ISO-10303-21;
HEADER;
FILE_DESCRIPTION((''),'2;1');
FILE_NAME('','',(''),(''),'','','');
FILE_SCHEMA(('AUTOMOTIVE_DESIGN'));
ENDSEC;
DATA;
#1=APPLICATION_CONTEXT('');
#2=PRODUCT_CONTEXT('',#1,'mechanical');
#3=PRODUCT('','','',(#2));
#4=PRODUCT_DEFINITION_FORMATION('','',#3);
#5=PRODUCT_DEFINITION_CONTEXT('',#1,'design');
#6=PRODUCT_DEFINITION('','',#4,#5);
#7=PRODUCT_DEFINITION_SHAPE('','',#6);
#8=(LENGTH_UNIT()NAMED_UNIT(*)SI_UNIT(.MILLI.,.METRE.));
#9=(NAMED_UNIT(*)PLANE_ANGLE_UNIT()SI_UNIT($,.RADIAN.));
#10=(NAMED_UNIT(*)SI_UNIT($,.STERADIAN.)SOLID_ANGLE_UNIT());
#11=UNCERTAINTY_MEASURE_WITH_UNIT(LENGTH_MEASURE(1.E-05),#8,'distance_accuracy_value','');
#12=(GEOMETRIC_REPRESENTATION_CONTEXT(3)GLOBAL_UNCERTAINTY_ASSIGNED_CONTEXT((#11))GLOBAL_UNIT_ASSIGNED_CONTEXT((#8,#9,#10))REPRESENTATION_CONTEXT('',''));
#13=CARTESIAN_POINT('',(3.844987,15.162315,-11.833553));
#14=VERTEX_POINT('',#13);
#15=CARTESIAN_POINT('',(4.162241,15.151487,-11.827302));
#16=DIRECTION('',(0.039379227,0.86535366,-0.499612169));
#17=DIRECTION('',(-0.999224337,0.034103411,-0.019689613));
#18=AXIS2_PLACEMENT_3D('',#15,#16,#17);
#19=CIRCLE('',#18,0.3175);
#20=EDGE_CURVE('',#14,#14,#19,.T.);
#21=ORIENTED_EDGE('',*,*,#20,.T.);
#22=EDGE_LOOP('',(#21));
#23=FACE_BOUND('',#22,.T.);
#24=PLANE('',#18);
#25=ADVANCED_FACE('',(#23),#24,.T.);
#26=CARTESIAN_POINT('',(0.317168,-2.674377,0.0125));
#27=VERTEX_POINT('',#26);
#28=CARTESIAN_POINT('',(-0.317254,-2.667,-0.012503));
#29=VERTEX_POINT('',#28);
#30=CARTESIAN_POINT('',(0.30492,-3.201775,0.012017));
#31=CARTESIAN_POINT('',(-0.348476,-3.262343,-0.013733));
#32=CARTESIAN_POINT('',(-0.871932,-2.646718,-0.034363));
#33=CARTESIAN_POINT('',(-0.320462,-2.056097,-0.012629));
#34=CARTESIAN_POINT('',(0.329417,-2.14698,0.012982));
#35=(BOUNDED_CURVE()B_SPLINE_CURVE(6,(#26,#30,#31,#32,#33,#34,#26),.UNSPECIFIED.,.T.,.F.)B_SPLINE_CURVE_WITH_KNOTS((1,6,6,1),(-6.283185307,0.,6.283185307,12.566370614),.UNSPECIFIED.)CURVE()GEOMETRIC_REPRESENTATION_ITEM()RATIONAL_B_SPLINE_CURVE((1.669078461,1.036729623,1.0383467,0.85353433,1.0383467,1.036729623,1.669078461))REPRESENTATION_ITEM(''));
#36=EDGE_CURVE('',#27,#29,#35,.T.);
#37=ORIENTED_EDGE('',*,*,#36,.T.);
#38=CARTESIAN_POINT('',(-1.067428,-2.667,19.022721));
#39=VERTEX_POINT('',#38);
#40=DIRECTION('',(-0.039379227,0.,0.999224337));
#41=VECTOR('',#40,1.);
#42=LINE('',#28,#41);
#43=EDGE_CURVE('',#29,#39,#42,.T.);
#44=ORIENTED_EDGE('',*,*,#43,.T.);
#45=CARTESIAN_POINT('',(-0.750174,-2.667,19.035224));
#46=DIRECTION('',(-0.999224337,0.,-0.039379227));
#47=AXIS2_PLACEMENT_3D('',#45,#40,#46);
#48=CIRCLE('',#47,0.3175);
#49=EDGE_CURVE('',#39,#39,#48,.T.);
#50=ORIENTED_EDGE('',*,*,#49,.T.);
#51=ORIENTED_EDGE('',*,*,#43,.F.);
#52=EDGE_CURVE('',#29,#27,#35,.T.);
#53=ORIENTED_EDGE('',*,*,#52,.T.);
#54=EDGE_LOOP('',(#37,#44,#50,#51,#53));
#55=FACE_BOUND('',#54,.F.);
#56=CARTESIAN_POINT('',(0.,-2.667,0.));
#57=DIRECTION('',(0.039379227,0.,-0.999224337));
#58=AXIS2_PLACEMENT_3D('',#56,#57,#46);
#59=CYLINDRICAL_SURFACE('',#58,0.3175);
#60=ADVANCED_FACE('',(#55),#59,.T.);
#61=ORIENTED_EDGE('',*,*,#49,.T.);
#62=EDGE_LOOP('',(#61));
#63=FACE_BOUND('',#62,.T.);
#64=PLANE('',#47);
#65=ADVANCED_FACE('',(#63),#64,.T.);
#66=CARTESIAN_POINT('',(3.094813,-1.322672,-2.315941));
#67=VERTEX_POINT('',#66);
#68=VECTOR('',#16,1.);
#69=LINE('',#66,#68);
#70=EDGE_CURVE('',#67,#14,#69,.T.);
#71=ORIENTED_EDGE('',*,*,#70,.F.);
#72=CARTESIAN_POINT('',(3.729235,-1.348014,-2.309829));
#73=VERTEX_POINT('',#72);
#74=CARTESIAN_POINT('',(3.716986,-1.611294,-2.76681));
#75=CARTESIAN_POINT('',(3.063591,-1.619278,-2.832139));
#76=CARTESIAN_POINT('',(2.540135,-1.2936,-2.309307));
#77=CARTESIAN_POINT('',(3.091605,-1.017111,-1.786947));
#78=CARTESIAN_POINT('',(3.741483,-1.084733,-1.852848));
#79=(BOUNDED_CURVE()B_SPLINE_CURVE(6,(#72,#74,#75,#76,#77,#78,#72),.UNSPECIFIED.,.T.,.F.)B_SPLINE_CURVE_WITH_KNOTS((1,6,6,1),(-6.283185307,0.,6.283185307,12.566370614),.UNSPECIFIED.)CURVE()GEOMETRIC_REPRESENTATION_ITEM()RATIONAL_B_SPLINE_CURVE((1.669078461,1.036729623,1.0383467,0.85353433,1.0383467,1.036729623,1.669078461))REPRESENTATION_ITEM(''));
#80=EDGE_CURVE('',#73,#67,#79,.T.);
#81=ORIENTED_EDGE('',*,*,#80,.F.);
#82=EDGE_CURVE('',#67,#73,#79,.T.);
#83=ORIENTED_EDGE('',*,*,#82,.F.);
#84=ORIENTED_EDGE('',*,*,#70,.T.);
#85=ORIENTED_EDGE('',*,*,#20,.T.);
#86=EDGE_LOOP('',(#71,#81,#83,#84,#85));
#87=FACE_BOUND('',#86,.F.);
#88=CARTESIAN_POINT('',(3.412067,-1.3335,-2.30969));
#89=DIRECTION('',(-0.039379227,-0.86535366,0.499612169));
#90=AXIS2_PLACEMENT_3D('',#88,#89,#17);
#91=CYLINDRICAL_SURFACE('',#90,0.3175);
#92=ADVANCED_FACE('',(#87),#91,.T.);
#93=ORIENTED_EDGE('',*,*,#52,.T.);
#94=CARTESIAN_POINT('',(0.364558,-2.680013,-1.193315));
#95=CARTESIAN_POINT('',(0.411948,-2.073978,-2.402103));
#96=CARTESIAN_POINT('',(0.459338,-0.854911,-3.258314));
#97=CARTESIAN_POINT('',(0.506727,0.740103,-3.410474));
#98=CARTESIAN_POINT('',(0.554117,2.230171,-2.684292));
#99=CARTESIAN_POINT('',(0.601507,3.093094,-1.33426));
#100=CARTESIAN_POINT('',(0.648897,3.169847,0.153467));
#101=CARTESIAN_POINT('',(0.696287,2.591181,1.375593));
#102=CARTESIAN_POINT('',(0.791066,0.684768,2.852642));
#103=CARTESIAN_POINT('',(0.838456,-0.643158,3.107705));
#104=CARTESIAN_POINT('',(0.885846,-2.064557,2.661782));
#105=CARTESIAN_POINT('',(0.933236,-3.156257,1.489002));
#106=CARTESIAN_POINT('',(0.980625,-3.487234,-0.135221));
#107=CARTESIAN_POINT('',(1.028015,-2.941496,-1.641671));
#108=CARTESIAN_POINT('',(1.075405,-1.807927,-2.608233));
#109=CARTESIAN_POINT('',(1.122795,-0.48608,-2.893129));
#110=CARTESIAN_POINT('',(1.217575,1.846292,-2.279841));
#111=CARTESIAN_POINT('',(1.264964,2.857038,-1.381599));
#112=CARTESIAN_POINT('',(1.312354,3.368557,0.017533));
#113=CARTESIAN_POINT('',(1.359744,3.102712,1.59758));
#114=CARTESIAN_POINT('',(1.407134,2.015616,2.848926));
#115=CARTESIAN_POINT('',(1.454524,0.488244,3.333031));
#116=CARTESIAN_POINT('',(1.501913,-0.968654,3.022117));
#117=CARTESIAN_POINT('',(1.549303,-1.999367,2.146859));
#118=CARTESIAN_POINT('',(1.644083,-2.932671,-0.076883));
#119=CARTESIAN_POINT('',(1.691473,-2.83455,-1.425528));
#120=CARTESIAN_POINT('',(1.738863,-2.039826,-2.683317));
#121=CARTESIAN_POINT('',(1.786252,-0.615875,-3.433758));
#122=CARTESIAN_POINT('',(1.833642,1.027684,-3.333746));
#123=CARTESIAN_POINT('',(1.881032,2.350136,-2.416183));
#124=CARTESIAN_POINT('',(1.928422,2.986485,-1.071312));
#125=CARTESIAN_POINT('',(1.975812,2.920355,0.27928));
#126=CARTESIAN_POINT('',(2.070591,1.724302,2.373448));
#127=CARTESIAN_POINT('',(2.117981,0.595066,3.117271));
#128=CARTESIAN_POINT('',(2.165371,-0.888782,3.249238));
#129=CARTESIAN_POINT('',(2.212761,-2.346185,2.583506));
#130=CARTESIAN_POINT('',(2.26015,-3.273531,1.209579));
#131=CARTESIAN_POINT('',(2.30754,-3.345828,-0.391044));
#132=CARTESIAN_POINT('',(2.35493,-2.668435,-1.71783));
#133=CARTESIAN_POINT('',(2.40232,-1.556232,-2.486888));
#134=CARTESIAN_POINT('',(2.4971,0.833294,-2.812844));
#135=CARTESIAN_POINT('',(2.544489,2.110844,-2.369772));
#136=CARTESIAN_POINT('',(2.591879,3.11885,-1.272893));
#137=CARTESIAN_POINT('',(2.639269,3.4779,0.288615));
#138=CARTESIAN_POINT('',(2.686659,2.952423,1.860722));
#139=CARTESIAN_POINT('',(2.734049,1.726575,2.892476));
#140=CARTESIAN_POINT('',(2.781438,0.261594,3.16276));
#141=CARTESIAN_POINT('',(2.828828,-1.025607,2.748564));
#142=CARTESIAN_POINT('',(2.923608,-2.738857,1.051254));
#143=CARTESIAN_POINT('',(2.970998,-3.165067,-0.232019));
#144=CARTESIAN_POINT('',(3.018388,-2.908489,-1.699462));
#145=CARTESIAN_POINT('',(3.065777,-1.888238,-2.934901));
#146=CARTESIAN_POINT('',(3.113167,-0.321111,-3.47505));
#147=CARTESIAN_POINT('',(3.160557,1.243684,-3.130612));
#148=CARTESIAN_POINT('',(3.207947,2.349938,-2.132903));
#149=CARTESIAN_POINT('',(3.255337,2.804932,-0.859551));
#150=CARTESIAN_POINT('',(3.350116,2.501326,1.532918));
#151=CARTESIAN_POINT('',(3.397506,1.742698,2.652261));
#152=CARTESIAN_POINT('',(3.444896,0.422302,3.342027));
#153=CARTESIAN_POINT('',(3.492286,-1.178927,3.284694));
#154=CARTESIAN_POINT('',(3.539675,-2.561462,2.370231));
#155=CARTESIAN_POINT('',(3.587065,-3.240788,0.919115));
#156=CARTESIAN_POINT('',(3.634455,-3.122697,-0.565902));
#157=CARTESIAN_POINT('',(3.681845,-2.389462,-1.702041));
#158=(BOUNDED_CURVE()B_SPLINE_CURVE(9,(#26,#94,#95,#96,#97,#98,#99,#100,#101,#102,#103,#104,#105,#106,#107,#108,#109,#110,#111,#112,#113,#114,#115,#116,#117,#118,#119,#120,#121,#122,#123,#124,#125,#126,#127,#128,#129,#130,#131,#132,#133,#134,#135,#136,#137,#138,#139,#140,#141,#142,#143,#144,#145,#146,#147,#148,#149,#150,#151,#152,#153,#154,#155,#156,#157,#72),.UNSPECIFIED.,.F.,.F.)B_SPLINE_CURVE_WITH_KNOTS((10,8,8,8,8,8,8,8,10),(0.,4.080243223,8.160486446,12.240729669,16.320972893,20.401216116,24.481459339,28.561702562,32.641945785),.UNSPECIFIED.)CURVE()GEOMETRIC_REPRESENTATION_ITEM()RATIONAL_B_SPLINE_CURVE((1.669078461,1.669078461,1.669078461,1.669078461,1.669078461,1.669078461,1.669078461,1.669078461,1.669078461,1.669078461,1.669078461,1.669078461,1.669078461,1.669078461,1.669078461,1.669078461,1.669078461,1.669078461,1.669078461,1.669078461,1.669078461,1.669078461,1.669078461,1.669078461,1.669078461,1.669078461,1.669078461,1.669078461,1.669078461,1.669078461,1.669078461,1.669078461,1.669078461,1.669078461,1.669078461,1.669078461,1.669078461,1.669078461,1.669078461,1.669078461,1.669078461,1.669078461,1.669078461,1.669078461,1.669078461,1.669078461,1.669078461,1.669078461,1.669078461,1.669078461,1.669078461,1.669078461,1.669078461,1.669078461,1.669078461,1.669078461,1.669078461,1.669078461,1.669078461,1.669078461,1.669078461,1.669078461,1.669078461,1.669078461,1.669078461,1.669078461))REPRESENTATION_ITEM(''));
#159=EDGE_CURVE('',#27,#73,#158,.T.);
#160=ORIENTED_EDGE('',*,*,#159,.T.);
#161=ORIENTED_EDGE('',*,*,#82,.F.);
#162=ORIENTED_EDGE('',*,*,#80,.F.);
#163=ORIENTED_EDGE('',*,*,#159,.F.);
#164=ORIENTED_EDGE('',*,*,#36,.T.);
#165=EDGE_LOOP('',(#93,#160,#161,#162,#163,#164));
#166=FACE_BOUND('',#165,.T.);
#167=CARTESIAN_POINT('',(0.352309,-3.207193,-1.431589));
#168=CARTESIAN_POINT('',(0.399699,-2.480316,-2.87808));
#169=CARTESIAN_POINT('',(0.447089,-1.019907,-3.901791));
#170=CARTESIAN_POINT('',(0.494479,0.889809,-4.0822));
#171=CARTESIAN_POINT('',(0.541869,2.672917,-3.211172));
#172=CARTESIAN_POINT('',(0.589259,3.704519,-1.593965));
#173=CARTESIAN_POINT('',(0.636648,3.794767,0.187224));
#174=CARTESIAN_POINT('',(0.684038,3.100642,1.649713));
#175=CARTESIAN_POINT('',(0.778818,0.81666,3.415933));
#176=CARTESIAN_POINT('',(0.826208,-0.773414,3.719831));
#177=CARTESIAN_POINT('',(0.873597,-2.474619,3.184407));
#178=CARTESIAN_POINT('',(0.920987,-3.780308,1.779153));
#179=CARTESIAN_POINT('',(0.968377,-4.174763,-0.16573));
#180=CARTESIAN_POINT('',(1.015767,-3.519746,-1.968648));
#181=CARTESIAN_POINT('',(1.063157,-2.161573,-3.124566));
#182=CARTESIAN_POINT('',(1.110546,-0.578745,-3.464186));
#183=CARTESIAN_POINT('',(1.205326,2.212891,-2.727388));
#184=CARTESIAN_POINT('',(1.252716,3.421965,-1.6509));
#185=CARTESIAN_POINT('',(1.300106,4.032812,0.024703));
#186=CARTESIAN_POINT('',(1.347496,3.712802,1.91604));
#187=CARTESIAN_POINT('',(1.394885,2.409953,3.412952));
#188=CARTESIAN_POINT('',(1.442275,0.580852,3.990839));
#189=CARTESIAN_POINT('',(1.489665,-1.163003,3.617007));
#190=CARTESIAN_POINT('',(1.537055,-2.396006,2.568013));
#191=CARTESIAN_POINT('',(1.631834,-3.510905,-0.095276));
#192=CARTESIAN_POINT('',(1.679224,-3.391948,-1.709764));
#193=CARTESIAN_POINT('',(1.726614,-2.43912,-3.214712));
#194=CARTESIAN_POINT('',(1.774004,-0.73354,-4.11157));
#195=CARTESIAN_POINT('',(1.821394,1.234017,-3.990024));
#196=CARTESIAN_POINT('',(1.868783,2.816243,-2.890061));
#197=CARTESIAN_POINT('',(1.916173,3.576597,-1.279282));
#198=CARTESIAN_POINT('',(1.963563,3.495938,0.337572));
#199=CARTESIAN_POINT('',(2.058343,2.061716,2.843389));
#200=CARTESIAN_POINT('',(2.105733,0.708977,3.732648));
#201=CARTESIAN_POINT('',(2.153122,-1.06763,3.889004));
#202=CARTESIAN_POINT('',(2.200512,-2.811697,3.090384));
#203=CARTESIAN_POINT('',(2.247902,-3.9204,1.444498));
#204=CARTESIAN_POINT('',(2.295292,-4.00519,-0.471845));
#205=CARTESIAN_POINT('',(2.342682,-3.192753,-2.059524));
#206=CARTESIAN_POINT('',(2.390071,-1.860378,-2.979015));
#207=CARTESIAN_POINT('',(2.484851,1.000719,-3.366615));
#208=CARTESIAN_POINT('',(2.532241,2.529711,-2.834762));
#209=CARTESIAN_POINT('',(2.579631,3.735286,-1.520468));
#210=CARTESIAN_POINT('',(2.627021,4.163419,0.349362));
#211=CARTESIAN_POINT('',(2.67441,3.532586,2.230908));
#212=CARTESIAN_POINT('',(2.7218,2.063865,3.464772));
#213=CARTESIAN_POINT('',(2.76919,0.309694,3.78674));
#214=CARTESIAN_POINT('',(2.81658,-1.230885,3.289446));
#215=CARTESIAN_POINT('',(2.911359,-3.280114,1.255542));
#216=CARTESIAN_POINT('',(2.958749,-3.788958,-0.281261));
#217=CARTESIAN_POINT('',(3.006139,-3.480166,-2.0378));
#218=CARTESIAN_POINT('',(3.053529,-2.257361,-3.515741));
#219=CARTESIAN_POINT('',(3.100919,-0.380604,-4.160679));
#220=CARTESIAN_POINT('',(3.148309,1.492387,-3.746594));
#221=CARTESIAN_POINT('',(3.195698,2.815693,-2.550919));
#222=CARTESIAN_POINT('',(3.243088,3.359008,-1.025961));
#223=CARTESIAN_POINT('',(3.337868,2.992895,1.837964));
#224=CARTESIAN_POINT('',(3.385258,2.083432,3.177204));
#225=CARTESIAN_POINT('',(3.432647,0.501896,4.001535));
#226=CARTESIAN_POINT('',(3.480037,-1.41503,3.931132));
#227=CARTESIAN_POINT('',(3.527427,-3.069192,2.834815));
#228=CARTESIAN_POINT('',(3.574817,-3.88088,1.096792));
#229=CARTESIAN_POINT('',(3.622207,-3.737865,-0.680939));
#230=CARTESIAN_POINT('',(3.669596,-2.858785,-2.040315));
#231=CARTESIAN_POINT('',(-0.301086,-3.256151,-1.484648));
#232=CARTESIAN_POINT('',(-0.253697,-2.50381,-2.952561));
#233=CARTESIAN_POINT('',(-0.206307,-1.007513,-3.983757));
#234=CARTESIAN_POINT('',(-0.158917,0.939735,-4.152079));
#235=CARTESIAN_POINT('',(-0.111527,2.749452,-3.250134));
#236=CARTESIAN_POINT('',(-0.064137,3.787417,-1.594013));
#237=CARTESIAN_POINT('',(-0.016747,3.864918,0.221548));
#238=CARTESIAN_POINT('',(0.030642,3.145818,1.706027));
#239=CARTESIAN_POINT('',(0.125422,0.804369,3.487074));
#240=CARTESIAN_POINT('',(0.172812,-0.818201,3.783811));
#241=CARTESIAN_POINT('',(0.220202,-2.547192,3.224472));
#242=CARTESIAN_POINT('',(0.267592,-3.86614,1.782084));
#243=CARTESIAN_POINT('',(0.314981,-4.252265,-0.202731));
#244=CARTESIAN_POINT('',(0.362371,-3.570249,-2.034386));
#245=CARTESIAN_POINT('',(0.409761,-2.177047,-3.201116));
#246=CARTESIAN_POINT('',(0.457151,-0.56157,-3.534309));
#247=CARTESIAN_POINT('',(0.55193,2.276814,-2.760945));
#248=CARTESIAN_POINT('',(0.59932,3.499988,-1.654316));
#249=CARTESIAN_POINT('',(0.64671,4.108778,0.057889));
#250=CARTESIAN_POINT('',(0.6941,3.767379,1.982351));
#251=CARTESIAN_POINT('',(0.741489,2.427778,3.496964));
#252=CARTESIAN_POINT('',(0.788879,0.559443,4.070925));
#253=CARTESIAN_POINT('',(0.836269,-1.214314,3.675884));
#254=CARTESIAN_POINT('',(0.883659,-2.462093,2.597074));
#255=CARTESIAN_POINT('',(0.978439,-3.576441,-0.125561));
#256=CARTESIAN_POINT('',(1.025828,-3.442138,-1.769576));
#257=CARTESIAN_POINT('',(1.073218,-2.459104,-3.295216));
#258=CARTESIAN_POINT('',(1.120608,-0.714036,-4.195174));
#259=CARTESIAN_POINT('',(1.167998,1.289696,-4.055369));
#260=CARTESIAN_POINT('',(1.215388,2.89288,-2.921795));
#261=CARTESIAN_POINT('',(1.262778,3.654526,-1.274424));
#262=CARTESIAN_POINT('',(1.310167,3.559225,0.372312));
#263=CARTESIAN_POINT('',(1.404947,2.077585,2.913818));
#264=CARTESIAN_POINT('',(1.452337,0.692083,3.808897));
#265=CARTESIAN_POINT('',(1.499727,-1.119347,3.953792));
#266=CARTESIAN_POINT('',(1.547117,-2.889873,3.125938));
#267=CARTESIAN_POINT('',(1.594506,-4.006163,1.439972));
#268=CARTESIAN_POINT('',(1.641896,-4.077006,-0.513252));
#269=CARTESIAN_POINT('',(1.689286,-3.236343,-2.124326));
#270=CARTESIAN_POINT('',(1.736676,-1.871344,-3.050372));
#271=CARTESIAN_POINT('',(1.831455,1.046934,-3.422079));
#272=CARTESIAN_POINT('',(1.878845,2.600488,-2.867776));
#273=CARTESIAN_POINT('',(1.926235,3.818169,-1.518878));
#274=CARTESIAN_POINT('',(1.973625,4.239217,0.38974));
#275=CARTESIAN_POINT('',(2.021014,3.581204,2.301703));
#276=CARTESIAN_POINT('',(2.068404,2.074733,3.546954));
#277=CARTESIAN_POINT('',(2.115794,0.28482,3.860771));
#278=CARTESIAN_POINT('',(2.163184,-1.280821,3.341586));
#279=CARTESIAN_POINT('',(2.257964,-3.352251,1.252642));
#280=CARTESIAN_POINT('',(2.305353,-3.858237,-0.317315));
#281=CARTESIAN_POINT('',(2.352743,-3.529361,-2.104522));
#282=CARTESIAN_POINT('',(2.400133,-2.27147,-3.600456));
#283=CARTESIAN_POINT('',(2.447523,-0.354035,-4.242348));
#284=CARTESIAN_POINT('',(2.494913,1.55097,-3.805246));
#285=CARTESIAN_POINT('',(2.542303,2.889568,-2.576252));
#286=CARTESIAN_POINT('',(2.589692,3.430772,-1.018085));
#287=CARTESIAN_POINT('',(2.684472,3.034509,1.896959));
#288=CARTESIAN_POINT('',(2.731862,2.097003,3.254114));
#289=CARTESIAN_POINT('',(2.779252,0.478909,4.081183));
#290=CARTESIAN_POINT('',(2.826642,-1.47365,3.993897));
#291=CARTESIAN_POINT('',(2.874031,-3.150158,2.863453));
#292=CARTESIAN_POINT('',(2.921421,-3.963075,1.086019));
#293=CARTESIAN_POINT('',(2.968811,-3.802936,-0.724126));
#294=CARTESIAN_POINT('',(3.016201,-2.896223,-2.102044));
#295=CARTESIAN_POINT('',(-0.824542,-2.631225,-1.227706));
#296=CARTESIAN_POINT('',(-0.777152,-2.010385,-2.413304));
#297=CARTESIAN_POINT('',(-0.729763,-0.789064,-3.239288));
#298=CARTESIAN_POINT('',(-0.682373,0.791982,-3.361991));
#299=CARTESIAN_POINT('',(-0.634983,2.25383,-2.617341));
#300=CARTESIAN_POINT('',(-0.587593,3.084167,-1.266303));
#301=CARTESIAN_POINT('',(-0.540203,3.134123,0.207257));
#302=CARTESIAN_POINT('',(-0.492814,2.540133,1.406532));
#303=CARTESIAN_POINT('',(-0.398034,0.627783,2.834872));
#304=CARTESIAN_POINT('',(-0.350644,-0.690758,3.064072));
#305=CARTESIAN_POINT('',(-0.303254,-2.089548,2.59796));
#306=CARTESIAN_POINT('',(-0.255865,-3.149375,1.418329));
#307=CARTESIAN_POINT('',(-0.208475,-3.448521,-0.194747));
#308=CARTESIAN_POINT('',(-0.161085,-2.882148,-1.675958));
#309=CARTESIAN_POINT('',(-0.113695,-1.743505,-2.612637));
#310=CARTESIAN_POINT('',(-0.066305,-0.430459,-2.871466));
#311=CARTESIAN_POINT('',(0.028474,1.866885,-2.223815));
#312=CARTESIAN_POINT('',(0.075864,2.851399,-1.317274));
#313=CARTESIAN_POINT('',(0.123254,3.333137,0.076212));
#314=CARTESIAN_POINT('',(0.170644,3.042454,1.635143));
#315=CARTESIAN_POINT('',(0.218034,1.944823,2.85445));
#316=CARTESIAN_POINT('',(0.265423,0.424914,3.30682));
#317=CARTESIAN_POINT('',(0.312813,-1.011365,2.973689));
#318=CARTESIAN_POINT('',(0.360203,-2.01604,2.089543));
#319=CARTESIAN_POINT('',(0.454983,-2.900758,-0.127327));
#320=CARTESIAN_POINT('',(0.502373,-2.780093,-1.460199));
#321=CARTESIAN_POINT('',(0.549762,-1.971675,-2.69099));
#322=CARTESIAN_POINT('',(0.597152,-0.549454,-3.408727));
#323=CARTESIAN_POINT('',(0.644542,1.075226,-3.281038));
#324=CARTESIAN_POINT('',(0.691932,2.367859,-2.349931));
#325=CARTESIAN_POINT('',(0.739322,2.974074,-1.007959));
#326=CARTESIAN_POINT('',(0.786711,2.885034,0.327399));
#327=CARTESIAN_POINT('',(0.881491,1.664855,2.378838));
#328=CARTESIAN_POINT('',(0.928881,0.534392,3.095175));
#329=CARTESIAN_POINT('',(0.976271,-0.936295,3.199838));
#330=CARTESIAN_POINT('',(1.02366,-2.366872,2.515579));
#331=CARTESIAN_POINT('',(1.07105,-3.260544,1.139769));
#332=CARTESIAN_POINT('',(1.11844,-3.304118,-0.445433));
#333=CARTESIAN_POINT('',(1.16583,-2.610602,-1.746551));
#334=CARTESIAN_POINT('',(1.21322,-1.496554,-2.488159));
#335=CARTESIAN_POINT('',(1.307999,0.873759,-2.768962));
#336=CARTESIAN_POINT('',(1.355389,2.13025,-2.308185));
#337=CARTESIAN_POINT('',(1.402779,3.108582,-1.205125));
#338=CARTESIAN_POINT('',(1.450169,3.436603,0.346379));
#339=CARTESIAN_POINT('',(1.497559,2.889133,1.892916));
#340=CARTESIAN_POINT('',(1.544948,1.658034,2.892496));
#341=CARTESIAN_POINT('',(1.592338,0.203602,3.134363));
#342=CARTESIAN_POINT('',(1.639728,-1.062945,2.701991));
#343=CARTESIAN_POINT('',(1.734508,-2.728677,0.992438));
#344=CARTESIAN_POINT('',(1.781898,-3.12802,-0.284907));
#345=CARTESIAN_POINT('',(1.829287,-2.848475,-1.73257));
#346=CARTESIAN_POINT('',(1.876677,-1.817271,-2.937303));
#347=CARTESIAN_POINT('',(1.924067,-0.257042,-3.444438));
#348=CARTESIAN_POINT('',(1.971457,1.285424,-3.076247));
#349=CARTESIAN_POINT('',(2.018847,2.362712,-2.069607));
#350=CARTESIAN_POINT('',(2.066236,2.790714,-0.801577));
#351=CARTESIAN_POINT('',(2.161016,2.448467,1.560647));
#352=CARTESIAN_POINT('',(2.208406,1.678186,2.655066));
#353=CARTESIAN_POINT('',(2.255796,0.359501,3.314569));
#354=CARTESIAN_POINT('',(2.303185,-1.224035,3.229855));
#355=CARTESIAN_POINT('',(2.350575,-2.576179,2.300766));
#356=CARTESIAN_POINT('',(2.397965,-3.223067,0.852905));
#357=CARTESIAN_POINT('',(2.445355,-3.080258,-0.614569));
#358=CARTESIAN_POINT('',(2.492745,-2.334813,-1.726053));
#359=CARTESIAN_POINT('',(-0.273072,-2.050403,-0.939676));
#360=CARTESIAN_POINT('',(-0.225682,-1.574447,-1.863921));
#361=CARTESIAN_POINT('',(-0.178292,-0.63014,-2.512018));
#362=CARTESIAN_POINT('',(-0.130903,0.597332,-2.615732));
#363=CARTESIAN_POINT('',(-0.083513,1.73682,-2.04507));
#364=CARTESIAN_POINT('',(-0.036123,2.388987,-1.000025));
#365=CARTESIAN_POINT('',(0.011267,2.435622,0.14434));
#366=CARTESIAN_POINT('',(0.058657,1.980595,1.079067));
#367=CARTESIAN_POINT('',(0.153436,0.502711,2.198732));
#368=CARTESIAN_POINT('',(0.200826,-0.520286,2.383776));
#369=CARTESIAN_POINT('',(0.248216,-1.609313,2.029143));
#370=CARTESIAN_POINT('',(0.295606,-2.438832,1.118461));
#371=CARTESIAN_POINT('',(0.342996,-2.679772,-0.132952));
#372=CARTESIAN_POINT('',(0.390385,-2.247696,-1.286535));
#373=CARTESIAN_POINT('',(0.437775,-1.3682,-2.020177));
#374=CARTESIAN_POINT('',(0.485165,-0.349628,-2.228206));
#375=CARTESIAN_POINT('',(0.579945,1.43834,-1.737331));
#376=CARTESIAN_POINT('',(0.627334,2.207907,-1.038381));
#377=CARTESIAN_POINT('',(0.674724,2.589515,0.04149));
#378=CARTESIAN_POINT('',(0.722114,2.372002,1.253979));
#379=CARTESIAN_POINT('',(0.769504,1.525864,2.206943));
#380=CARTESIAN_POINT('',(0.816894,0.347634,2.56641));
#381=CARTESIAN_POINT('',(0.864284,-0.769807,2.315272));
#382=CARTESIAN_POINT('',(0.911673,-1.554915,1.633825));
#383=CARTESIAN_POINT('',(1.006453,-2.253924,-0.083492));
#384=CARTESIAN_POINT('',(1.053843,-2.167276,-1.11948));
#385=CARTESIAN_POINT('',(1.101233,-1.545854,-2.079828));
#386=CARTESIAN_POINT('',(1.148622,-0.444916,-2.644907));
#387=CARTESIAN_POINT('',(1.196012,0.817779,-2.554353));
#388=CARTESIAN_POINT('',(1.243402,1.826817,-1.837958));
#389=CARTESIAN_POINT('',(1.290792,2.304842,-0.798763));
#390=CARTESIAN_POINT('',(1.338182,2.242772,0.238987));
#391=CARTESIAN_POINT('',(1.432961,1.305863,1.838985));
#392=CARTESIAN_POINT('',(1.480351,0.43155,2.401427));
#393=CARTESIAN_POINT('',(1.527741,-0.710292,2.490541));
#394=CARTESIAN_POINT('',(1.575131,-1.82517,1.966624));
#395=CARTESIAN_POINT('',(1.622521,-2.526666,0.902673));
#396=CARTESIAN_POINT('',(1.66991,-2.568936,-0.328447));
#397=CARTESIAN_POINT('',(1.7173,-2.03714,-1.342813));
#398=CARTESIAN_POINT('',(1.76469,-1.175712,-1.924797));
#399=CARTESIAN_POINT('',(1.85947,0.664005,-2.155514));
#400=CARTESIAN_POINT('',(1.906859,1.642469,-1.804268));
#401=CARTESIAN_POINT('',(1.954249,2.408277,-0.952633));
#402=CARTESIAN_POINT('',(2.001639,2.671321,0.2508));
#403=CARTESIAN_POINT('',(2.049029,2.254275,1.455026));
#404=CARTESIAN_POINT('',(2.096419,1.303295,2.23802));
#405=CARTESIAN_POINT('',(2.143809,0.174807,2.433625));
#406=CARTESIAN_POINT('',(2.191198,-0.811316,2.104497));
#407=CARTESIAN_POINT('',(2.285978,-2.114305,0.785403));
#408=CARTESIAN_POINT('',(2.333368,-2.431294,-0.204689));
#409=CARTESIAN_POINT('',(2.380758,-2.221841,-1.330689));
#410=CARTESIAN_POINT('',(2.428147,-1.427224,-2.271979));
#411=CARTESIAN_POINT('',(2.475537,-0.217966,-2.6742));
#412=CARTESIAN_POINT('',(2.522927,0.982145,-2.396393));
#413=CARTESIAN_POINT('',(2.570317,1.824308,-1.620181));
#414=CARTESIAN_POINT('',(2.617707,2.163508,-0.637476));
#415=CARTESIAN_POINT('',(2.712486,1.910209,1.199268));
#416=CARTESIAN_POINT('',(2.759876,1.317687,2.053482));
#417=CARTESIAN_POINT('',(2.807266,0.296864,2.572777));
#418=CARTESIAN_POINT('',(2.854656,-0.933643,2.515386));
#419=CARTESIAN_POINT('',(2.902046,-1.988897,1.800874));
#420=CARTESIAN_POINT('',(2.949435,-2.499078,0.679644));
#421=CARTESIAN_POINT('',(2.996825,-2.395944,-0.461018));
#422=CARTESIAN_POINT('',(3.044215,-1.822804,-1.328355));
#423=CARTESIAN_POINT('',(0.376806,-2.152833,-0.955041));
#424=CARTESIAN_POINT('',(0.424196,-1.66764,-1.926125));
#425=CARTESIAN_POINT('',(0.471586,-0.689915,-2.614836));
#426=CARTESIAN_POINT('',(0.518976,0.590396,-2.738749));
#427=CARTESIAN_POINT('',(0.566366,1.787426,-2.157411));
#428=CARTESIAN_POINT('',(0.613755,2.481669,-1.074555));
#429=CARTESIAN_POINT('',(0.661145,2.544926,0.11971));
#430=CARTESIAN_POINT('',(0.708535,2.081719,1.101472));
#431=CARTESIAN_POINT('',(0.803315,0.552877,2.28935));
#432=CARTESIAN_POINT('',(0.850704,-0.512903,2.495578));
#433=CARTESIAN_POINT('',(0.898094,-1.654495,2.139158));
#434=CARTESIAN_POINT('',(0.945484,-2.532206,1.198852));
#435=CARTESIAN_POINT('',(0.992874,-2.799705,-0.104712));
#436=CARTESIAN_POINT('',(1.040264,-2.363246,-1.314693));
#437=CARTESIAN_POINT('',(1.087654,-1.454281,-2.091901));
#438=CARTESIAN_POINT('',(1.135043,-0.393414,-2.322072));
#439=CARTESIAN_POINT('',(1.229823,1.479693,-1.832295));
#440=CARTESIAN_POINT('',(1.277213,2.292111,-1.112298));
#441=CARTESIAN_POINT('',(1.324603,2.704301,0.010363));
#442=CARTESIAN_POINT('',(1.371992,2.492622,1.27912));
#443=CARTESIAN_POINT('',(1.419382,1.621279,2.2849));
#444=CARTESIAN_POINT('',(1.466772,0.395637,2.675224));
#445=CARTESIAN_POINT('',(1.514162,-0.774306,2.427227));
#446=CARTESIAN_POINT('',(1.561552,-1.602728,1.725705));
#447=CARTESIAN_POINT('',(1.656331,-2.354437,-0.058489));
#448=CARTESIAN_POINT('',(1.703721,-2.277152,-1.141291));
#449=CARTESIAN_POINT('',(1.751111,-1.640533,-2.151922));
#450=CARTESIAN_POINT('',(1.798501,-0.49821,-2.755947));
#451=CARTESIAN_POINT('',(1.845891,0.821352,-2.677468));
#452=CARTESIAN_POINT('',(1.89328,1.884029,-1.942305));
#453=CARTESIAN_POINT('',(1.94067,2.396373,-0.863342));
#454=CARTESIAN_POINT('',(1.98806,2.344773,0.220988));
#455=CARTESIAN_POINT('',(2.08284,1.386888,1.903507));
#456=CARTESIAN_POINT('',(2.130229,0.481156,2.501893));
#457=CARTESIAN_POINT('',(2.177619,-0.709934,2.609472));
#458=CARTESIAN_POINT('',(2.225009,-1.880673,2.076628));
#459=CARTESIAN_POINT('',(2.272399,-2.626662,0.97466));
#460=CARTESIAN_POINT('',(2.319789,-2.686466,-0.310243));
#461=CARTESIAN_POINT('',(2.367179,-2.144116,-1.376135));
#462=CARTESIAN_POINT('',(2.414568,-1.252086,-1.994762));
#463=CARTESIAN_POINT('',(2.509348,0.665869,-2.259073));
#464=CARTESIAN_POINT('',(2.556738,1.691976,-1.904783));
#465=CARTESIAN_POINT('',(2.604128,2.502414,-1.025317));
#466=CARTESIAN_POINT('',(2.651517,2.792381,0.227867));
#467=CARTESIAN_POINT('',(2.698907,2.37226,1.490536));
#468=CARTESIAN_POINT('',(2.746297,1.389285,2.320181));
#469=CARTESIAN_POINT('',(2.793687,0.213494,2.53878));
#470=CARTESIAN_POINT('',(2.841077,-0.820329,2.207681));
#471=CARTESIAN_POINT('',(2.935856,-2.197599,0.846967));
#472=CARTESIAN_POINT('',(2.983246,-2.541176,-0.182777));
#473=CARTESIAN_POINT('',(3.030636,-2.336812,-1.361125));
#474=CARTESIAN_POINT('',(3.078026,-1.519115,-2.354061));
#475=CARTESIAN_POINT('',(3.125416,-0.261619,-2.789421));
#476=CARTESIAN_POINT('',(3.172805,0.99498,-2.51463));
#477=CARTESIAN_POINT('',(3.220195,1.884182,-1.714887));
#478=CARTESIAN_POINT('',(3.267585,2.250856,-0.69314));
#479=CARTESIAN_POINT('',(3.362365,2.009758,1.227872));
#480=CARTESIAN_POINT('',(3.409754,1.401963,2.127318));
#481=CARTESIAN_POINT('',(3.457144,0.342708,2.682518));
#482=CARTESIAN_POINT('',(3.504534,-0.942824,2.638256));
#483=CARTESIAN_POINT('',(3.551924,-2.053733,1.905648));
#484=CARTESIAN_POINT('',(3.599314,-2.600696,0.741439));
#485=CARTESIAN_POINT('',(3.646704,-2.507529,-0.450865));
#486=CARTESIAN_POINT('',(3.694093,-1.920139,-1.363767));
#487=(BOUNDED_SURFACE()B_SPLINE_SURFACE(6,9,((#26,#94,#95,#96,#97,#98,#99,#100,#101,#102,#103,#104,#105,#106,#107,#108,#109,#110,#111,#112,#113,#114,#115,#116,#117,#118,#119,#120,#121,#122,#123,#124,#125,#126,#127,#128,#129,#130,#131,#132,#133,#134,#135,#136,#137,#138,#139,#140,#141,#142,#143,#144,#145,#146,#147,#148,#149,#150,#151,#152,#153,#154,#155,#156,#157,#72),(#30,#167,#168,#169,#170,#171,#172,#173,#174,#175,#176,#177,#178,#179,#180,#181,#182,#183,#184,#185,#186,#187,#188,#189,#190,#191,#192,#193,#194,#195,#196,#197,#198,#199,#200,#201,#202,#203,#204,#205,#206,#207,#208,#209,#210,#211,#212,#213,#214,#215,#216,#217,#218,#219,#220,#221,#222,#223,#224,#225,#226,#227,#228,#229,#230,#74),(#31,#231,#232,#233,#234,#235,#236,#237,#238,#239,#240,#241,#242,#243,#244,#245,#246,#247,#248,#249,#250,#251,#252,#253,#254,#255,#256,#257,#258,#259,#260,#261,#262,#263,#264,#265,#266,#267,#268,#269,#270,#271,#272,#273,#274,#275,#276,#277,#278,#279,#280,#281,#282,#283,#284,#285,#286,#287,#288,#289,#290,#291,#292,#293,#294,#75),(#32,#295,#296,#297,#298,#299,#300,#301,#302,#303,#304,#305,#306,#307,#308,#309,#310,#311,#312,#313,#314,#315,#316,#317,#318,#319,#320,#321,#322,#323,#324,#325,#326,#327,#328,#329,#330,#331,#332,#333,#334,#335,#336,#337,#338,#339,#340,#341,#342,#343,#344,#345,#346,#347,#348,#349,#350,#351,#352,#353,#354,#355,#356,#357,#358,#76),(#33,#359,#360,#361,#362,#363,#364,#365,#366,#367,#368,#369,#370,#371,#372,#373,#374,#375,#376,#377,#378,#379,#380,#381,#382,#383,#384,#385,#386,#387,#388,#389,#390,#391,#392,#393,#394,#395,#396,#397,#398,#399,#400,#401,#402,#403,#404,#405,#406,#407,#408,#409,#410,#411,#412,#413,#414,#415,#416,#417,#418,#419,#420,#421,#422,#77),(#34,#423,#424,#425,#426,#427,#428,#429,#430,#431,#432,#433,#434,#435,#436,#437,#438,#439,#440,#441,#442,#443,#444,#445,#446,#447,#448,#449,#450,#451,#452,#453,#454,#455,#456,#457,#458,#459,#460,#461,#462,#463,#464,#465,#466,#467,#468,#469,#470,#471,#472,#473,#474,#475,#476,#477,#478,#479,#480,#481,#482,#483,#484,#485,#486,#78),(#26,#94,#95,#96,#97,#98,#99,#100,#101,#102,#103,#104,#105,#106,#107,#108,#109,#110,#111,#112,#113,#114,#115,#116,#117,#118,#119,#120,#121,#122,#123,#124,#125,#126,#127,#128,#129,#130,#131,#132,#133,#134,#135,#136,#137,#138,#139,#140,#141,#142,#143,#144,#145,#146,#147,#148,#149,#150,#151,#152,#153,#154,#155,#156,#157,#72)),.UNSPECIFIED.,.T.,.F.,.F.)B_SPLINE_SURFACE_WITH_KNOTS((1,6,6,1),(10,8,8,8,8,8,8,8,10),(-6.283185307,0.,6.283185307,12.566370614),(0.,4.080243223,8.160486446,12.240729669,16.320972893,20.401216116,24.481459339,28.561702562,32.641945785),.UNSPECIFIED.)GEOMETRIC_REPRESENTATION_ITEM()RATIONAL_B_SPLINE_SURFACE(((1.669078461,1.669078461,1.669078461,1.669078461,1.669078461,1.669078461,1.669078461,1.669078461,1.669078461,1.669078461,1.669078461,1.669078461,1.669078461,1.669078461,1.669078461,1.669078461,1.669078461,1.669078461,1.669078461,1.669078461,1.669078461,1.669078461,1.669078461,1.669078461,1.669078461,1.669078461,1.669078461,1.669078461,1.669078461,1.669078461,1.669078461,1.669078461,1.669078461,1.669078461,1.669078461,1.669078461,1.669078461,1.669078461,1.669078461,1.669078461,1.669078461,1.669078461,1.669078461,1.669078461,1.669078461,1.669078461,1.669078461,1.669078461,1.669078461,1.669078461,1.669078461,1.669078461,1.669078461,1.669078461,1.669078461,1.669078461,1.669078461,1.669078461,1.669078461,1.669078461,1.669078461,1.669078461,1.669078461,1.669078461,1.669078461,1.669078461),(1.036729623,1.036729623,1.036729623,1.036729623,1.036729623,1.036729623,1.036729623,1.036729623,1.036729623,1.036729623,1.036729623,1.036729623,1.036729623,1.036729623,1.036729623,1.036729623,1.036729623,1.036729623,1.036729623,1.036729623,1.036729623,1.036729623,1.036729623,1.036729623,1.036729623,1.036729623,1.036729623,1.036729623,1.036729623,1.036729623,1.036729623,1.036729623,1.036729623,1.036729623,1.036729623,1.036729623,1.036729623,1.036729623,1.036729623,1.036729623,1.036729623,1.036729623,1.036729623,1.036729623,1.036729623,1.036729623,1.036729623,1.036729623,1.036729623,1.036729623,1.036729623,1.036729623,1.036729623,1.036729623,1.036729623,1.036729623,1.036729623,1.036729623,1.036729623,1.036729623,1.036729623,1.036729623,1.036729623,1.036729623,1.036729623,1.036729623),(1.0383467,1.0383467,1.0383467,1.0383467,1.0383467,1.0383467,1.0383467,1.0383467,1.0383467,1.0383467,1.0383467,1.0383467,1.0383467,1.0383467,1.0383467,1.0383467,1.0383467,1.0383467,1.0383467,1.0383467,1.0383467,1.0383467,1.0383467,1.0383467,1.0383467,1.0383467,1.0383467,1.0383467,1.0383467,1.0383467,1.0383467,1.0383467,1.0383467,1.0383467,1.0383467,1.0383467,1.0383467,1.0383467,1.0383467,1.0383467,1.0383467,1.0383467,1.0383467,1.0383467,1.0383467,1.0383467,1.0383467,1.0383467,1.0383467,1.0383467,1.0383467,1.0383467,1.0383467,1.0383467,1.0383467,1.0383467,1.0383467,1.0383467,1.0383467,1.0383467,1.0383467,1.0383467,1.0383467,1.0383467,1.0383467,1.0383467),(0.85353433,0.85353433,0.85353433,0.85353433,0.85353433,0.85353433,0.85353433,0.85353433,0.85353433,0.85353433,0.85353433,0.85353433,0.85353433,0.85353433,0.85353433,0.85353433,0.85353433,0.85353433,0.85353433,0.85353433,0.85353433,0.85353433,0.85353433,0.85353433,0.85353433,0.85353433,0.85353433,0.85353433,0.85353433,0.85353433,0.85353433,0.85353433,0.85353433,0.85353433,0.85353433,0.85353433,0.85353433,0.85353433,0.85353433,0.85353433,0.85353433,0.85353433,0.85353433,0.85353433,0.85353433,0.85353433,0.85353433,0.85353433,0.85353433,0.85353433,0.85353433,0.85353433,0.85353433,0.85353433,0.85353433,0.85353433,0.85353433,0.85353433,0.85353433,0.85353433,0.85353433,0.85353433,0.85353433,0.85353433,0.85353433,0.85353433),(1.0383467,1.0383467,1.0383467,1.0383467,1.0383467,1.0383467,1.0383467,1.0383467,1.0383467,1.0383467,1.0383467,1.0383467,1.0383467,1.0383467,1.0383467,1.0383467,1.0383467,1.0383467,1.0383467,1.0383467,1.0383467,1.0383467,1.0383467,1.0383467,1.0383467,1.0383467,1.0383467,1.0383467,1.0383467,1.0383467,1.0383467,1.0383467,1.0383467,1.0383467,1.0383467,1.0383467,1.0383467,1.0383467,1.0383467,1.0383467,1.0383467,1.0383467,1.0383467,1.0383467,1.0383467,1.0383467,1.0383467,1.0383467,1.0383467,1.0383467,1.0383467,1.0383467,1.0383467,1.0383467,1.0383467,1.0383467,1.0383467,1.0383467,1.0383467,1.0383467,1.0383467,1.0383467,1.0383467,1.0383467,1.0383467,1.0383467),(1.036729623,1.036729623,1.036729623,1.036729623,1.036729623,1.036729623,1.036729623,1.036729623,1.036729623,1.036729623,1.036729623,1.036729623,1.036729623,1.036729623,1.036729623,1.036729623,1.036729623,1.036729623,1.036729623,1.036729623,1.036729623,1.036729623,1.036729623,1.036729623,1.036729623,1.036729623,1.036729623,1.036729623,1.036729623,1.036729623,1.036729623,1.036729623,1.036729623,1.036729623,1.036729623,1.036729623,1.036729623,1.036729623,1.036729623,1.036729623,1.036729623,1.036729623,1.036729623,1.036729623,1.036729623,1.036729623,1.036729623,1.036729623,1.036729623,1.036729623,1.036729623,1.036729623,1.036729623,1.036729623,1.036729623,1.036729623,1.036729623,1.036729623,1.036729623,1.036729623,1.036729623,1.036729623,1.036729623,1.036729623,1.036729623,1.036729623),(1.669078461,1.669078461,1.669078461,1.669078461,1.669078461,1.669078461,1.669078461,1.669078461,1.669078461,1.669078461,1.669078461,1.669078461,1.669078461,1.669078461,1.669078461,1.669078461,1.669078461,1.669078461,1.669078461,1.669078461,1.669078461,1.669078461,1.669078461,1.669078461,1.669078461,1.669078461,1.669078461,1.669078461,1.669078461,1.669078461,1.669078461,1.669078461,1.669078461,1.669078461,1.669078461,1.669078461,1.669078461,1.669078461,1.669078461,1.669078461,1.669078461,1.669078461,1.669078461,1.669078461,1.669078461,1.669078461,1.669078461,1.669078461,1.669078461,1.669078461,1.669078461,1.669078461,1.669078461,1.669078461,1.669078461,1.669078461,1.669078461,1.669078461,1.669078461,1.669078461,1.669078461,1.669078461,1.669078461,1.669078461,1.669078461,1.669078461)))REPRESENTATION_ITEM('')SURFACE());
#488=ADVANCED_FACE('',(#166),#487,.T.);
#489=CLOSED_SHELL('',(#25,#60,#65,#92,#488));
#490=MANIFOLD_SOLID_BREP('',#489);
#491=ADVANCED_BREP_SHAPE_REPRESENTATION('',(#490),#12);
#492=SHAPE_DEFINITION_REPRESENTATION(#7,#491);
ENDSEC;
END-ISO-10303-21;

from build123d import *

# Parameters (mm, degrees)
SWEEP1_PITCH       = 0.6604
SWEEP1_HEIGHT      = 3.412066667
SWEEP1_RADIUS      = 2.667
SWEEP1_START_ANGLE = 90
SKETCH3_R          = 0.3175
SKETCH4_R          = 0.3175
EXTRUDE1_DEPTH     = 19.05
SKETCH5_R          = 0.3175
EXTRUDE2_DEPTH     = 19.05


with BuildPart() as part:
    # Sweep1: sweep along a helix
    with BuildLine() as sweep1_path:
        add(Helix(SWEEP1_PITCH, SWEEP1_HEIGHT, SWEEP1_RADIUS, center=(0, 0, 0), direction=(1, 0, 0), mode=Mode.PRIVATE).rotate(Axis((0, 0, 0), (1, 0, 0)), SWEEP1_START_ANGLE))
    # Sketch3 → Sweep1 (sweep)
    with BuildSketch(Plane(origin=(0, -2.667, 0), x_dir=(0.9989545515538123, -0.023236129092748616, 0.0393685945228793), z_dir=(0.03937922672886973, 9.914703606728192e-15, -0.9992243374249029))):
        Circle(SKETCH3_R)
    sweep(path=sweep1_path.line, is_frenet=True)

    # Sketch4 → Extrude1 (add)
    with BuildSketch(Plane(origin=(0, 0, 0), x_dir=(-0.9989545515538123, 0.023236129092748647, -0.039368594522879316), z_dir=(-0.039379226728869746, -9.914812026945441e-15, 0.9992243374249029))):
        with Locations(Location((-0.061970756, 2.666279923, 0), (0, 0, 1.33145196))):
            Circle(SKETCH4_R)
    extrude(amount=EXTRUDE1_DEPTH)

    # Sketch5 → Extrude2 (add)
    with BuildSketch(Plane(origin=(0.005291172, 0.116272852, -0.067130163), x_dir=(0.9981766996120582, -0.05695762474307546, -0.019977620859501895), z_dir=(0.03937922672886974, 0.8653536602896932, -0.49961216871235903))):
        with Locations(Location((3.527940543, 2.508120737, 0), (0, 0, 177.376085598))):
            Circle(SKETCH5_R)
    extrude(amount=EXTRUDE2_DEPTH)


solid = part.part
